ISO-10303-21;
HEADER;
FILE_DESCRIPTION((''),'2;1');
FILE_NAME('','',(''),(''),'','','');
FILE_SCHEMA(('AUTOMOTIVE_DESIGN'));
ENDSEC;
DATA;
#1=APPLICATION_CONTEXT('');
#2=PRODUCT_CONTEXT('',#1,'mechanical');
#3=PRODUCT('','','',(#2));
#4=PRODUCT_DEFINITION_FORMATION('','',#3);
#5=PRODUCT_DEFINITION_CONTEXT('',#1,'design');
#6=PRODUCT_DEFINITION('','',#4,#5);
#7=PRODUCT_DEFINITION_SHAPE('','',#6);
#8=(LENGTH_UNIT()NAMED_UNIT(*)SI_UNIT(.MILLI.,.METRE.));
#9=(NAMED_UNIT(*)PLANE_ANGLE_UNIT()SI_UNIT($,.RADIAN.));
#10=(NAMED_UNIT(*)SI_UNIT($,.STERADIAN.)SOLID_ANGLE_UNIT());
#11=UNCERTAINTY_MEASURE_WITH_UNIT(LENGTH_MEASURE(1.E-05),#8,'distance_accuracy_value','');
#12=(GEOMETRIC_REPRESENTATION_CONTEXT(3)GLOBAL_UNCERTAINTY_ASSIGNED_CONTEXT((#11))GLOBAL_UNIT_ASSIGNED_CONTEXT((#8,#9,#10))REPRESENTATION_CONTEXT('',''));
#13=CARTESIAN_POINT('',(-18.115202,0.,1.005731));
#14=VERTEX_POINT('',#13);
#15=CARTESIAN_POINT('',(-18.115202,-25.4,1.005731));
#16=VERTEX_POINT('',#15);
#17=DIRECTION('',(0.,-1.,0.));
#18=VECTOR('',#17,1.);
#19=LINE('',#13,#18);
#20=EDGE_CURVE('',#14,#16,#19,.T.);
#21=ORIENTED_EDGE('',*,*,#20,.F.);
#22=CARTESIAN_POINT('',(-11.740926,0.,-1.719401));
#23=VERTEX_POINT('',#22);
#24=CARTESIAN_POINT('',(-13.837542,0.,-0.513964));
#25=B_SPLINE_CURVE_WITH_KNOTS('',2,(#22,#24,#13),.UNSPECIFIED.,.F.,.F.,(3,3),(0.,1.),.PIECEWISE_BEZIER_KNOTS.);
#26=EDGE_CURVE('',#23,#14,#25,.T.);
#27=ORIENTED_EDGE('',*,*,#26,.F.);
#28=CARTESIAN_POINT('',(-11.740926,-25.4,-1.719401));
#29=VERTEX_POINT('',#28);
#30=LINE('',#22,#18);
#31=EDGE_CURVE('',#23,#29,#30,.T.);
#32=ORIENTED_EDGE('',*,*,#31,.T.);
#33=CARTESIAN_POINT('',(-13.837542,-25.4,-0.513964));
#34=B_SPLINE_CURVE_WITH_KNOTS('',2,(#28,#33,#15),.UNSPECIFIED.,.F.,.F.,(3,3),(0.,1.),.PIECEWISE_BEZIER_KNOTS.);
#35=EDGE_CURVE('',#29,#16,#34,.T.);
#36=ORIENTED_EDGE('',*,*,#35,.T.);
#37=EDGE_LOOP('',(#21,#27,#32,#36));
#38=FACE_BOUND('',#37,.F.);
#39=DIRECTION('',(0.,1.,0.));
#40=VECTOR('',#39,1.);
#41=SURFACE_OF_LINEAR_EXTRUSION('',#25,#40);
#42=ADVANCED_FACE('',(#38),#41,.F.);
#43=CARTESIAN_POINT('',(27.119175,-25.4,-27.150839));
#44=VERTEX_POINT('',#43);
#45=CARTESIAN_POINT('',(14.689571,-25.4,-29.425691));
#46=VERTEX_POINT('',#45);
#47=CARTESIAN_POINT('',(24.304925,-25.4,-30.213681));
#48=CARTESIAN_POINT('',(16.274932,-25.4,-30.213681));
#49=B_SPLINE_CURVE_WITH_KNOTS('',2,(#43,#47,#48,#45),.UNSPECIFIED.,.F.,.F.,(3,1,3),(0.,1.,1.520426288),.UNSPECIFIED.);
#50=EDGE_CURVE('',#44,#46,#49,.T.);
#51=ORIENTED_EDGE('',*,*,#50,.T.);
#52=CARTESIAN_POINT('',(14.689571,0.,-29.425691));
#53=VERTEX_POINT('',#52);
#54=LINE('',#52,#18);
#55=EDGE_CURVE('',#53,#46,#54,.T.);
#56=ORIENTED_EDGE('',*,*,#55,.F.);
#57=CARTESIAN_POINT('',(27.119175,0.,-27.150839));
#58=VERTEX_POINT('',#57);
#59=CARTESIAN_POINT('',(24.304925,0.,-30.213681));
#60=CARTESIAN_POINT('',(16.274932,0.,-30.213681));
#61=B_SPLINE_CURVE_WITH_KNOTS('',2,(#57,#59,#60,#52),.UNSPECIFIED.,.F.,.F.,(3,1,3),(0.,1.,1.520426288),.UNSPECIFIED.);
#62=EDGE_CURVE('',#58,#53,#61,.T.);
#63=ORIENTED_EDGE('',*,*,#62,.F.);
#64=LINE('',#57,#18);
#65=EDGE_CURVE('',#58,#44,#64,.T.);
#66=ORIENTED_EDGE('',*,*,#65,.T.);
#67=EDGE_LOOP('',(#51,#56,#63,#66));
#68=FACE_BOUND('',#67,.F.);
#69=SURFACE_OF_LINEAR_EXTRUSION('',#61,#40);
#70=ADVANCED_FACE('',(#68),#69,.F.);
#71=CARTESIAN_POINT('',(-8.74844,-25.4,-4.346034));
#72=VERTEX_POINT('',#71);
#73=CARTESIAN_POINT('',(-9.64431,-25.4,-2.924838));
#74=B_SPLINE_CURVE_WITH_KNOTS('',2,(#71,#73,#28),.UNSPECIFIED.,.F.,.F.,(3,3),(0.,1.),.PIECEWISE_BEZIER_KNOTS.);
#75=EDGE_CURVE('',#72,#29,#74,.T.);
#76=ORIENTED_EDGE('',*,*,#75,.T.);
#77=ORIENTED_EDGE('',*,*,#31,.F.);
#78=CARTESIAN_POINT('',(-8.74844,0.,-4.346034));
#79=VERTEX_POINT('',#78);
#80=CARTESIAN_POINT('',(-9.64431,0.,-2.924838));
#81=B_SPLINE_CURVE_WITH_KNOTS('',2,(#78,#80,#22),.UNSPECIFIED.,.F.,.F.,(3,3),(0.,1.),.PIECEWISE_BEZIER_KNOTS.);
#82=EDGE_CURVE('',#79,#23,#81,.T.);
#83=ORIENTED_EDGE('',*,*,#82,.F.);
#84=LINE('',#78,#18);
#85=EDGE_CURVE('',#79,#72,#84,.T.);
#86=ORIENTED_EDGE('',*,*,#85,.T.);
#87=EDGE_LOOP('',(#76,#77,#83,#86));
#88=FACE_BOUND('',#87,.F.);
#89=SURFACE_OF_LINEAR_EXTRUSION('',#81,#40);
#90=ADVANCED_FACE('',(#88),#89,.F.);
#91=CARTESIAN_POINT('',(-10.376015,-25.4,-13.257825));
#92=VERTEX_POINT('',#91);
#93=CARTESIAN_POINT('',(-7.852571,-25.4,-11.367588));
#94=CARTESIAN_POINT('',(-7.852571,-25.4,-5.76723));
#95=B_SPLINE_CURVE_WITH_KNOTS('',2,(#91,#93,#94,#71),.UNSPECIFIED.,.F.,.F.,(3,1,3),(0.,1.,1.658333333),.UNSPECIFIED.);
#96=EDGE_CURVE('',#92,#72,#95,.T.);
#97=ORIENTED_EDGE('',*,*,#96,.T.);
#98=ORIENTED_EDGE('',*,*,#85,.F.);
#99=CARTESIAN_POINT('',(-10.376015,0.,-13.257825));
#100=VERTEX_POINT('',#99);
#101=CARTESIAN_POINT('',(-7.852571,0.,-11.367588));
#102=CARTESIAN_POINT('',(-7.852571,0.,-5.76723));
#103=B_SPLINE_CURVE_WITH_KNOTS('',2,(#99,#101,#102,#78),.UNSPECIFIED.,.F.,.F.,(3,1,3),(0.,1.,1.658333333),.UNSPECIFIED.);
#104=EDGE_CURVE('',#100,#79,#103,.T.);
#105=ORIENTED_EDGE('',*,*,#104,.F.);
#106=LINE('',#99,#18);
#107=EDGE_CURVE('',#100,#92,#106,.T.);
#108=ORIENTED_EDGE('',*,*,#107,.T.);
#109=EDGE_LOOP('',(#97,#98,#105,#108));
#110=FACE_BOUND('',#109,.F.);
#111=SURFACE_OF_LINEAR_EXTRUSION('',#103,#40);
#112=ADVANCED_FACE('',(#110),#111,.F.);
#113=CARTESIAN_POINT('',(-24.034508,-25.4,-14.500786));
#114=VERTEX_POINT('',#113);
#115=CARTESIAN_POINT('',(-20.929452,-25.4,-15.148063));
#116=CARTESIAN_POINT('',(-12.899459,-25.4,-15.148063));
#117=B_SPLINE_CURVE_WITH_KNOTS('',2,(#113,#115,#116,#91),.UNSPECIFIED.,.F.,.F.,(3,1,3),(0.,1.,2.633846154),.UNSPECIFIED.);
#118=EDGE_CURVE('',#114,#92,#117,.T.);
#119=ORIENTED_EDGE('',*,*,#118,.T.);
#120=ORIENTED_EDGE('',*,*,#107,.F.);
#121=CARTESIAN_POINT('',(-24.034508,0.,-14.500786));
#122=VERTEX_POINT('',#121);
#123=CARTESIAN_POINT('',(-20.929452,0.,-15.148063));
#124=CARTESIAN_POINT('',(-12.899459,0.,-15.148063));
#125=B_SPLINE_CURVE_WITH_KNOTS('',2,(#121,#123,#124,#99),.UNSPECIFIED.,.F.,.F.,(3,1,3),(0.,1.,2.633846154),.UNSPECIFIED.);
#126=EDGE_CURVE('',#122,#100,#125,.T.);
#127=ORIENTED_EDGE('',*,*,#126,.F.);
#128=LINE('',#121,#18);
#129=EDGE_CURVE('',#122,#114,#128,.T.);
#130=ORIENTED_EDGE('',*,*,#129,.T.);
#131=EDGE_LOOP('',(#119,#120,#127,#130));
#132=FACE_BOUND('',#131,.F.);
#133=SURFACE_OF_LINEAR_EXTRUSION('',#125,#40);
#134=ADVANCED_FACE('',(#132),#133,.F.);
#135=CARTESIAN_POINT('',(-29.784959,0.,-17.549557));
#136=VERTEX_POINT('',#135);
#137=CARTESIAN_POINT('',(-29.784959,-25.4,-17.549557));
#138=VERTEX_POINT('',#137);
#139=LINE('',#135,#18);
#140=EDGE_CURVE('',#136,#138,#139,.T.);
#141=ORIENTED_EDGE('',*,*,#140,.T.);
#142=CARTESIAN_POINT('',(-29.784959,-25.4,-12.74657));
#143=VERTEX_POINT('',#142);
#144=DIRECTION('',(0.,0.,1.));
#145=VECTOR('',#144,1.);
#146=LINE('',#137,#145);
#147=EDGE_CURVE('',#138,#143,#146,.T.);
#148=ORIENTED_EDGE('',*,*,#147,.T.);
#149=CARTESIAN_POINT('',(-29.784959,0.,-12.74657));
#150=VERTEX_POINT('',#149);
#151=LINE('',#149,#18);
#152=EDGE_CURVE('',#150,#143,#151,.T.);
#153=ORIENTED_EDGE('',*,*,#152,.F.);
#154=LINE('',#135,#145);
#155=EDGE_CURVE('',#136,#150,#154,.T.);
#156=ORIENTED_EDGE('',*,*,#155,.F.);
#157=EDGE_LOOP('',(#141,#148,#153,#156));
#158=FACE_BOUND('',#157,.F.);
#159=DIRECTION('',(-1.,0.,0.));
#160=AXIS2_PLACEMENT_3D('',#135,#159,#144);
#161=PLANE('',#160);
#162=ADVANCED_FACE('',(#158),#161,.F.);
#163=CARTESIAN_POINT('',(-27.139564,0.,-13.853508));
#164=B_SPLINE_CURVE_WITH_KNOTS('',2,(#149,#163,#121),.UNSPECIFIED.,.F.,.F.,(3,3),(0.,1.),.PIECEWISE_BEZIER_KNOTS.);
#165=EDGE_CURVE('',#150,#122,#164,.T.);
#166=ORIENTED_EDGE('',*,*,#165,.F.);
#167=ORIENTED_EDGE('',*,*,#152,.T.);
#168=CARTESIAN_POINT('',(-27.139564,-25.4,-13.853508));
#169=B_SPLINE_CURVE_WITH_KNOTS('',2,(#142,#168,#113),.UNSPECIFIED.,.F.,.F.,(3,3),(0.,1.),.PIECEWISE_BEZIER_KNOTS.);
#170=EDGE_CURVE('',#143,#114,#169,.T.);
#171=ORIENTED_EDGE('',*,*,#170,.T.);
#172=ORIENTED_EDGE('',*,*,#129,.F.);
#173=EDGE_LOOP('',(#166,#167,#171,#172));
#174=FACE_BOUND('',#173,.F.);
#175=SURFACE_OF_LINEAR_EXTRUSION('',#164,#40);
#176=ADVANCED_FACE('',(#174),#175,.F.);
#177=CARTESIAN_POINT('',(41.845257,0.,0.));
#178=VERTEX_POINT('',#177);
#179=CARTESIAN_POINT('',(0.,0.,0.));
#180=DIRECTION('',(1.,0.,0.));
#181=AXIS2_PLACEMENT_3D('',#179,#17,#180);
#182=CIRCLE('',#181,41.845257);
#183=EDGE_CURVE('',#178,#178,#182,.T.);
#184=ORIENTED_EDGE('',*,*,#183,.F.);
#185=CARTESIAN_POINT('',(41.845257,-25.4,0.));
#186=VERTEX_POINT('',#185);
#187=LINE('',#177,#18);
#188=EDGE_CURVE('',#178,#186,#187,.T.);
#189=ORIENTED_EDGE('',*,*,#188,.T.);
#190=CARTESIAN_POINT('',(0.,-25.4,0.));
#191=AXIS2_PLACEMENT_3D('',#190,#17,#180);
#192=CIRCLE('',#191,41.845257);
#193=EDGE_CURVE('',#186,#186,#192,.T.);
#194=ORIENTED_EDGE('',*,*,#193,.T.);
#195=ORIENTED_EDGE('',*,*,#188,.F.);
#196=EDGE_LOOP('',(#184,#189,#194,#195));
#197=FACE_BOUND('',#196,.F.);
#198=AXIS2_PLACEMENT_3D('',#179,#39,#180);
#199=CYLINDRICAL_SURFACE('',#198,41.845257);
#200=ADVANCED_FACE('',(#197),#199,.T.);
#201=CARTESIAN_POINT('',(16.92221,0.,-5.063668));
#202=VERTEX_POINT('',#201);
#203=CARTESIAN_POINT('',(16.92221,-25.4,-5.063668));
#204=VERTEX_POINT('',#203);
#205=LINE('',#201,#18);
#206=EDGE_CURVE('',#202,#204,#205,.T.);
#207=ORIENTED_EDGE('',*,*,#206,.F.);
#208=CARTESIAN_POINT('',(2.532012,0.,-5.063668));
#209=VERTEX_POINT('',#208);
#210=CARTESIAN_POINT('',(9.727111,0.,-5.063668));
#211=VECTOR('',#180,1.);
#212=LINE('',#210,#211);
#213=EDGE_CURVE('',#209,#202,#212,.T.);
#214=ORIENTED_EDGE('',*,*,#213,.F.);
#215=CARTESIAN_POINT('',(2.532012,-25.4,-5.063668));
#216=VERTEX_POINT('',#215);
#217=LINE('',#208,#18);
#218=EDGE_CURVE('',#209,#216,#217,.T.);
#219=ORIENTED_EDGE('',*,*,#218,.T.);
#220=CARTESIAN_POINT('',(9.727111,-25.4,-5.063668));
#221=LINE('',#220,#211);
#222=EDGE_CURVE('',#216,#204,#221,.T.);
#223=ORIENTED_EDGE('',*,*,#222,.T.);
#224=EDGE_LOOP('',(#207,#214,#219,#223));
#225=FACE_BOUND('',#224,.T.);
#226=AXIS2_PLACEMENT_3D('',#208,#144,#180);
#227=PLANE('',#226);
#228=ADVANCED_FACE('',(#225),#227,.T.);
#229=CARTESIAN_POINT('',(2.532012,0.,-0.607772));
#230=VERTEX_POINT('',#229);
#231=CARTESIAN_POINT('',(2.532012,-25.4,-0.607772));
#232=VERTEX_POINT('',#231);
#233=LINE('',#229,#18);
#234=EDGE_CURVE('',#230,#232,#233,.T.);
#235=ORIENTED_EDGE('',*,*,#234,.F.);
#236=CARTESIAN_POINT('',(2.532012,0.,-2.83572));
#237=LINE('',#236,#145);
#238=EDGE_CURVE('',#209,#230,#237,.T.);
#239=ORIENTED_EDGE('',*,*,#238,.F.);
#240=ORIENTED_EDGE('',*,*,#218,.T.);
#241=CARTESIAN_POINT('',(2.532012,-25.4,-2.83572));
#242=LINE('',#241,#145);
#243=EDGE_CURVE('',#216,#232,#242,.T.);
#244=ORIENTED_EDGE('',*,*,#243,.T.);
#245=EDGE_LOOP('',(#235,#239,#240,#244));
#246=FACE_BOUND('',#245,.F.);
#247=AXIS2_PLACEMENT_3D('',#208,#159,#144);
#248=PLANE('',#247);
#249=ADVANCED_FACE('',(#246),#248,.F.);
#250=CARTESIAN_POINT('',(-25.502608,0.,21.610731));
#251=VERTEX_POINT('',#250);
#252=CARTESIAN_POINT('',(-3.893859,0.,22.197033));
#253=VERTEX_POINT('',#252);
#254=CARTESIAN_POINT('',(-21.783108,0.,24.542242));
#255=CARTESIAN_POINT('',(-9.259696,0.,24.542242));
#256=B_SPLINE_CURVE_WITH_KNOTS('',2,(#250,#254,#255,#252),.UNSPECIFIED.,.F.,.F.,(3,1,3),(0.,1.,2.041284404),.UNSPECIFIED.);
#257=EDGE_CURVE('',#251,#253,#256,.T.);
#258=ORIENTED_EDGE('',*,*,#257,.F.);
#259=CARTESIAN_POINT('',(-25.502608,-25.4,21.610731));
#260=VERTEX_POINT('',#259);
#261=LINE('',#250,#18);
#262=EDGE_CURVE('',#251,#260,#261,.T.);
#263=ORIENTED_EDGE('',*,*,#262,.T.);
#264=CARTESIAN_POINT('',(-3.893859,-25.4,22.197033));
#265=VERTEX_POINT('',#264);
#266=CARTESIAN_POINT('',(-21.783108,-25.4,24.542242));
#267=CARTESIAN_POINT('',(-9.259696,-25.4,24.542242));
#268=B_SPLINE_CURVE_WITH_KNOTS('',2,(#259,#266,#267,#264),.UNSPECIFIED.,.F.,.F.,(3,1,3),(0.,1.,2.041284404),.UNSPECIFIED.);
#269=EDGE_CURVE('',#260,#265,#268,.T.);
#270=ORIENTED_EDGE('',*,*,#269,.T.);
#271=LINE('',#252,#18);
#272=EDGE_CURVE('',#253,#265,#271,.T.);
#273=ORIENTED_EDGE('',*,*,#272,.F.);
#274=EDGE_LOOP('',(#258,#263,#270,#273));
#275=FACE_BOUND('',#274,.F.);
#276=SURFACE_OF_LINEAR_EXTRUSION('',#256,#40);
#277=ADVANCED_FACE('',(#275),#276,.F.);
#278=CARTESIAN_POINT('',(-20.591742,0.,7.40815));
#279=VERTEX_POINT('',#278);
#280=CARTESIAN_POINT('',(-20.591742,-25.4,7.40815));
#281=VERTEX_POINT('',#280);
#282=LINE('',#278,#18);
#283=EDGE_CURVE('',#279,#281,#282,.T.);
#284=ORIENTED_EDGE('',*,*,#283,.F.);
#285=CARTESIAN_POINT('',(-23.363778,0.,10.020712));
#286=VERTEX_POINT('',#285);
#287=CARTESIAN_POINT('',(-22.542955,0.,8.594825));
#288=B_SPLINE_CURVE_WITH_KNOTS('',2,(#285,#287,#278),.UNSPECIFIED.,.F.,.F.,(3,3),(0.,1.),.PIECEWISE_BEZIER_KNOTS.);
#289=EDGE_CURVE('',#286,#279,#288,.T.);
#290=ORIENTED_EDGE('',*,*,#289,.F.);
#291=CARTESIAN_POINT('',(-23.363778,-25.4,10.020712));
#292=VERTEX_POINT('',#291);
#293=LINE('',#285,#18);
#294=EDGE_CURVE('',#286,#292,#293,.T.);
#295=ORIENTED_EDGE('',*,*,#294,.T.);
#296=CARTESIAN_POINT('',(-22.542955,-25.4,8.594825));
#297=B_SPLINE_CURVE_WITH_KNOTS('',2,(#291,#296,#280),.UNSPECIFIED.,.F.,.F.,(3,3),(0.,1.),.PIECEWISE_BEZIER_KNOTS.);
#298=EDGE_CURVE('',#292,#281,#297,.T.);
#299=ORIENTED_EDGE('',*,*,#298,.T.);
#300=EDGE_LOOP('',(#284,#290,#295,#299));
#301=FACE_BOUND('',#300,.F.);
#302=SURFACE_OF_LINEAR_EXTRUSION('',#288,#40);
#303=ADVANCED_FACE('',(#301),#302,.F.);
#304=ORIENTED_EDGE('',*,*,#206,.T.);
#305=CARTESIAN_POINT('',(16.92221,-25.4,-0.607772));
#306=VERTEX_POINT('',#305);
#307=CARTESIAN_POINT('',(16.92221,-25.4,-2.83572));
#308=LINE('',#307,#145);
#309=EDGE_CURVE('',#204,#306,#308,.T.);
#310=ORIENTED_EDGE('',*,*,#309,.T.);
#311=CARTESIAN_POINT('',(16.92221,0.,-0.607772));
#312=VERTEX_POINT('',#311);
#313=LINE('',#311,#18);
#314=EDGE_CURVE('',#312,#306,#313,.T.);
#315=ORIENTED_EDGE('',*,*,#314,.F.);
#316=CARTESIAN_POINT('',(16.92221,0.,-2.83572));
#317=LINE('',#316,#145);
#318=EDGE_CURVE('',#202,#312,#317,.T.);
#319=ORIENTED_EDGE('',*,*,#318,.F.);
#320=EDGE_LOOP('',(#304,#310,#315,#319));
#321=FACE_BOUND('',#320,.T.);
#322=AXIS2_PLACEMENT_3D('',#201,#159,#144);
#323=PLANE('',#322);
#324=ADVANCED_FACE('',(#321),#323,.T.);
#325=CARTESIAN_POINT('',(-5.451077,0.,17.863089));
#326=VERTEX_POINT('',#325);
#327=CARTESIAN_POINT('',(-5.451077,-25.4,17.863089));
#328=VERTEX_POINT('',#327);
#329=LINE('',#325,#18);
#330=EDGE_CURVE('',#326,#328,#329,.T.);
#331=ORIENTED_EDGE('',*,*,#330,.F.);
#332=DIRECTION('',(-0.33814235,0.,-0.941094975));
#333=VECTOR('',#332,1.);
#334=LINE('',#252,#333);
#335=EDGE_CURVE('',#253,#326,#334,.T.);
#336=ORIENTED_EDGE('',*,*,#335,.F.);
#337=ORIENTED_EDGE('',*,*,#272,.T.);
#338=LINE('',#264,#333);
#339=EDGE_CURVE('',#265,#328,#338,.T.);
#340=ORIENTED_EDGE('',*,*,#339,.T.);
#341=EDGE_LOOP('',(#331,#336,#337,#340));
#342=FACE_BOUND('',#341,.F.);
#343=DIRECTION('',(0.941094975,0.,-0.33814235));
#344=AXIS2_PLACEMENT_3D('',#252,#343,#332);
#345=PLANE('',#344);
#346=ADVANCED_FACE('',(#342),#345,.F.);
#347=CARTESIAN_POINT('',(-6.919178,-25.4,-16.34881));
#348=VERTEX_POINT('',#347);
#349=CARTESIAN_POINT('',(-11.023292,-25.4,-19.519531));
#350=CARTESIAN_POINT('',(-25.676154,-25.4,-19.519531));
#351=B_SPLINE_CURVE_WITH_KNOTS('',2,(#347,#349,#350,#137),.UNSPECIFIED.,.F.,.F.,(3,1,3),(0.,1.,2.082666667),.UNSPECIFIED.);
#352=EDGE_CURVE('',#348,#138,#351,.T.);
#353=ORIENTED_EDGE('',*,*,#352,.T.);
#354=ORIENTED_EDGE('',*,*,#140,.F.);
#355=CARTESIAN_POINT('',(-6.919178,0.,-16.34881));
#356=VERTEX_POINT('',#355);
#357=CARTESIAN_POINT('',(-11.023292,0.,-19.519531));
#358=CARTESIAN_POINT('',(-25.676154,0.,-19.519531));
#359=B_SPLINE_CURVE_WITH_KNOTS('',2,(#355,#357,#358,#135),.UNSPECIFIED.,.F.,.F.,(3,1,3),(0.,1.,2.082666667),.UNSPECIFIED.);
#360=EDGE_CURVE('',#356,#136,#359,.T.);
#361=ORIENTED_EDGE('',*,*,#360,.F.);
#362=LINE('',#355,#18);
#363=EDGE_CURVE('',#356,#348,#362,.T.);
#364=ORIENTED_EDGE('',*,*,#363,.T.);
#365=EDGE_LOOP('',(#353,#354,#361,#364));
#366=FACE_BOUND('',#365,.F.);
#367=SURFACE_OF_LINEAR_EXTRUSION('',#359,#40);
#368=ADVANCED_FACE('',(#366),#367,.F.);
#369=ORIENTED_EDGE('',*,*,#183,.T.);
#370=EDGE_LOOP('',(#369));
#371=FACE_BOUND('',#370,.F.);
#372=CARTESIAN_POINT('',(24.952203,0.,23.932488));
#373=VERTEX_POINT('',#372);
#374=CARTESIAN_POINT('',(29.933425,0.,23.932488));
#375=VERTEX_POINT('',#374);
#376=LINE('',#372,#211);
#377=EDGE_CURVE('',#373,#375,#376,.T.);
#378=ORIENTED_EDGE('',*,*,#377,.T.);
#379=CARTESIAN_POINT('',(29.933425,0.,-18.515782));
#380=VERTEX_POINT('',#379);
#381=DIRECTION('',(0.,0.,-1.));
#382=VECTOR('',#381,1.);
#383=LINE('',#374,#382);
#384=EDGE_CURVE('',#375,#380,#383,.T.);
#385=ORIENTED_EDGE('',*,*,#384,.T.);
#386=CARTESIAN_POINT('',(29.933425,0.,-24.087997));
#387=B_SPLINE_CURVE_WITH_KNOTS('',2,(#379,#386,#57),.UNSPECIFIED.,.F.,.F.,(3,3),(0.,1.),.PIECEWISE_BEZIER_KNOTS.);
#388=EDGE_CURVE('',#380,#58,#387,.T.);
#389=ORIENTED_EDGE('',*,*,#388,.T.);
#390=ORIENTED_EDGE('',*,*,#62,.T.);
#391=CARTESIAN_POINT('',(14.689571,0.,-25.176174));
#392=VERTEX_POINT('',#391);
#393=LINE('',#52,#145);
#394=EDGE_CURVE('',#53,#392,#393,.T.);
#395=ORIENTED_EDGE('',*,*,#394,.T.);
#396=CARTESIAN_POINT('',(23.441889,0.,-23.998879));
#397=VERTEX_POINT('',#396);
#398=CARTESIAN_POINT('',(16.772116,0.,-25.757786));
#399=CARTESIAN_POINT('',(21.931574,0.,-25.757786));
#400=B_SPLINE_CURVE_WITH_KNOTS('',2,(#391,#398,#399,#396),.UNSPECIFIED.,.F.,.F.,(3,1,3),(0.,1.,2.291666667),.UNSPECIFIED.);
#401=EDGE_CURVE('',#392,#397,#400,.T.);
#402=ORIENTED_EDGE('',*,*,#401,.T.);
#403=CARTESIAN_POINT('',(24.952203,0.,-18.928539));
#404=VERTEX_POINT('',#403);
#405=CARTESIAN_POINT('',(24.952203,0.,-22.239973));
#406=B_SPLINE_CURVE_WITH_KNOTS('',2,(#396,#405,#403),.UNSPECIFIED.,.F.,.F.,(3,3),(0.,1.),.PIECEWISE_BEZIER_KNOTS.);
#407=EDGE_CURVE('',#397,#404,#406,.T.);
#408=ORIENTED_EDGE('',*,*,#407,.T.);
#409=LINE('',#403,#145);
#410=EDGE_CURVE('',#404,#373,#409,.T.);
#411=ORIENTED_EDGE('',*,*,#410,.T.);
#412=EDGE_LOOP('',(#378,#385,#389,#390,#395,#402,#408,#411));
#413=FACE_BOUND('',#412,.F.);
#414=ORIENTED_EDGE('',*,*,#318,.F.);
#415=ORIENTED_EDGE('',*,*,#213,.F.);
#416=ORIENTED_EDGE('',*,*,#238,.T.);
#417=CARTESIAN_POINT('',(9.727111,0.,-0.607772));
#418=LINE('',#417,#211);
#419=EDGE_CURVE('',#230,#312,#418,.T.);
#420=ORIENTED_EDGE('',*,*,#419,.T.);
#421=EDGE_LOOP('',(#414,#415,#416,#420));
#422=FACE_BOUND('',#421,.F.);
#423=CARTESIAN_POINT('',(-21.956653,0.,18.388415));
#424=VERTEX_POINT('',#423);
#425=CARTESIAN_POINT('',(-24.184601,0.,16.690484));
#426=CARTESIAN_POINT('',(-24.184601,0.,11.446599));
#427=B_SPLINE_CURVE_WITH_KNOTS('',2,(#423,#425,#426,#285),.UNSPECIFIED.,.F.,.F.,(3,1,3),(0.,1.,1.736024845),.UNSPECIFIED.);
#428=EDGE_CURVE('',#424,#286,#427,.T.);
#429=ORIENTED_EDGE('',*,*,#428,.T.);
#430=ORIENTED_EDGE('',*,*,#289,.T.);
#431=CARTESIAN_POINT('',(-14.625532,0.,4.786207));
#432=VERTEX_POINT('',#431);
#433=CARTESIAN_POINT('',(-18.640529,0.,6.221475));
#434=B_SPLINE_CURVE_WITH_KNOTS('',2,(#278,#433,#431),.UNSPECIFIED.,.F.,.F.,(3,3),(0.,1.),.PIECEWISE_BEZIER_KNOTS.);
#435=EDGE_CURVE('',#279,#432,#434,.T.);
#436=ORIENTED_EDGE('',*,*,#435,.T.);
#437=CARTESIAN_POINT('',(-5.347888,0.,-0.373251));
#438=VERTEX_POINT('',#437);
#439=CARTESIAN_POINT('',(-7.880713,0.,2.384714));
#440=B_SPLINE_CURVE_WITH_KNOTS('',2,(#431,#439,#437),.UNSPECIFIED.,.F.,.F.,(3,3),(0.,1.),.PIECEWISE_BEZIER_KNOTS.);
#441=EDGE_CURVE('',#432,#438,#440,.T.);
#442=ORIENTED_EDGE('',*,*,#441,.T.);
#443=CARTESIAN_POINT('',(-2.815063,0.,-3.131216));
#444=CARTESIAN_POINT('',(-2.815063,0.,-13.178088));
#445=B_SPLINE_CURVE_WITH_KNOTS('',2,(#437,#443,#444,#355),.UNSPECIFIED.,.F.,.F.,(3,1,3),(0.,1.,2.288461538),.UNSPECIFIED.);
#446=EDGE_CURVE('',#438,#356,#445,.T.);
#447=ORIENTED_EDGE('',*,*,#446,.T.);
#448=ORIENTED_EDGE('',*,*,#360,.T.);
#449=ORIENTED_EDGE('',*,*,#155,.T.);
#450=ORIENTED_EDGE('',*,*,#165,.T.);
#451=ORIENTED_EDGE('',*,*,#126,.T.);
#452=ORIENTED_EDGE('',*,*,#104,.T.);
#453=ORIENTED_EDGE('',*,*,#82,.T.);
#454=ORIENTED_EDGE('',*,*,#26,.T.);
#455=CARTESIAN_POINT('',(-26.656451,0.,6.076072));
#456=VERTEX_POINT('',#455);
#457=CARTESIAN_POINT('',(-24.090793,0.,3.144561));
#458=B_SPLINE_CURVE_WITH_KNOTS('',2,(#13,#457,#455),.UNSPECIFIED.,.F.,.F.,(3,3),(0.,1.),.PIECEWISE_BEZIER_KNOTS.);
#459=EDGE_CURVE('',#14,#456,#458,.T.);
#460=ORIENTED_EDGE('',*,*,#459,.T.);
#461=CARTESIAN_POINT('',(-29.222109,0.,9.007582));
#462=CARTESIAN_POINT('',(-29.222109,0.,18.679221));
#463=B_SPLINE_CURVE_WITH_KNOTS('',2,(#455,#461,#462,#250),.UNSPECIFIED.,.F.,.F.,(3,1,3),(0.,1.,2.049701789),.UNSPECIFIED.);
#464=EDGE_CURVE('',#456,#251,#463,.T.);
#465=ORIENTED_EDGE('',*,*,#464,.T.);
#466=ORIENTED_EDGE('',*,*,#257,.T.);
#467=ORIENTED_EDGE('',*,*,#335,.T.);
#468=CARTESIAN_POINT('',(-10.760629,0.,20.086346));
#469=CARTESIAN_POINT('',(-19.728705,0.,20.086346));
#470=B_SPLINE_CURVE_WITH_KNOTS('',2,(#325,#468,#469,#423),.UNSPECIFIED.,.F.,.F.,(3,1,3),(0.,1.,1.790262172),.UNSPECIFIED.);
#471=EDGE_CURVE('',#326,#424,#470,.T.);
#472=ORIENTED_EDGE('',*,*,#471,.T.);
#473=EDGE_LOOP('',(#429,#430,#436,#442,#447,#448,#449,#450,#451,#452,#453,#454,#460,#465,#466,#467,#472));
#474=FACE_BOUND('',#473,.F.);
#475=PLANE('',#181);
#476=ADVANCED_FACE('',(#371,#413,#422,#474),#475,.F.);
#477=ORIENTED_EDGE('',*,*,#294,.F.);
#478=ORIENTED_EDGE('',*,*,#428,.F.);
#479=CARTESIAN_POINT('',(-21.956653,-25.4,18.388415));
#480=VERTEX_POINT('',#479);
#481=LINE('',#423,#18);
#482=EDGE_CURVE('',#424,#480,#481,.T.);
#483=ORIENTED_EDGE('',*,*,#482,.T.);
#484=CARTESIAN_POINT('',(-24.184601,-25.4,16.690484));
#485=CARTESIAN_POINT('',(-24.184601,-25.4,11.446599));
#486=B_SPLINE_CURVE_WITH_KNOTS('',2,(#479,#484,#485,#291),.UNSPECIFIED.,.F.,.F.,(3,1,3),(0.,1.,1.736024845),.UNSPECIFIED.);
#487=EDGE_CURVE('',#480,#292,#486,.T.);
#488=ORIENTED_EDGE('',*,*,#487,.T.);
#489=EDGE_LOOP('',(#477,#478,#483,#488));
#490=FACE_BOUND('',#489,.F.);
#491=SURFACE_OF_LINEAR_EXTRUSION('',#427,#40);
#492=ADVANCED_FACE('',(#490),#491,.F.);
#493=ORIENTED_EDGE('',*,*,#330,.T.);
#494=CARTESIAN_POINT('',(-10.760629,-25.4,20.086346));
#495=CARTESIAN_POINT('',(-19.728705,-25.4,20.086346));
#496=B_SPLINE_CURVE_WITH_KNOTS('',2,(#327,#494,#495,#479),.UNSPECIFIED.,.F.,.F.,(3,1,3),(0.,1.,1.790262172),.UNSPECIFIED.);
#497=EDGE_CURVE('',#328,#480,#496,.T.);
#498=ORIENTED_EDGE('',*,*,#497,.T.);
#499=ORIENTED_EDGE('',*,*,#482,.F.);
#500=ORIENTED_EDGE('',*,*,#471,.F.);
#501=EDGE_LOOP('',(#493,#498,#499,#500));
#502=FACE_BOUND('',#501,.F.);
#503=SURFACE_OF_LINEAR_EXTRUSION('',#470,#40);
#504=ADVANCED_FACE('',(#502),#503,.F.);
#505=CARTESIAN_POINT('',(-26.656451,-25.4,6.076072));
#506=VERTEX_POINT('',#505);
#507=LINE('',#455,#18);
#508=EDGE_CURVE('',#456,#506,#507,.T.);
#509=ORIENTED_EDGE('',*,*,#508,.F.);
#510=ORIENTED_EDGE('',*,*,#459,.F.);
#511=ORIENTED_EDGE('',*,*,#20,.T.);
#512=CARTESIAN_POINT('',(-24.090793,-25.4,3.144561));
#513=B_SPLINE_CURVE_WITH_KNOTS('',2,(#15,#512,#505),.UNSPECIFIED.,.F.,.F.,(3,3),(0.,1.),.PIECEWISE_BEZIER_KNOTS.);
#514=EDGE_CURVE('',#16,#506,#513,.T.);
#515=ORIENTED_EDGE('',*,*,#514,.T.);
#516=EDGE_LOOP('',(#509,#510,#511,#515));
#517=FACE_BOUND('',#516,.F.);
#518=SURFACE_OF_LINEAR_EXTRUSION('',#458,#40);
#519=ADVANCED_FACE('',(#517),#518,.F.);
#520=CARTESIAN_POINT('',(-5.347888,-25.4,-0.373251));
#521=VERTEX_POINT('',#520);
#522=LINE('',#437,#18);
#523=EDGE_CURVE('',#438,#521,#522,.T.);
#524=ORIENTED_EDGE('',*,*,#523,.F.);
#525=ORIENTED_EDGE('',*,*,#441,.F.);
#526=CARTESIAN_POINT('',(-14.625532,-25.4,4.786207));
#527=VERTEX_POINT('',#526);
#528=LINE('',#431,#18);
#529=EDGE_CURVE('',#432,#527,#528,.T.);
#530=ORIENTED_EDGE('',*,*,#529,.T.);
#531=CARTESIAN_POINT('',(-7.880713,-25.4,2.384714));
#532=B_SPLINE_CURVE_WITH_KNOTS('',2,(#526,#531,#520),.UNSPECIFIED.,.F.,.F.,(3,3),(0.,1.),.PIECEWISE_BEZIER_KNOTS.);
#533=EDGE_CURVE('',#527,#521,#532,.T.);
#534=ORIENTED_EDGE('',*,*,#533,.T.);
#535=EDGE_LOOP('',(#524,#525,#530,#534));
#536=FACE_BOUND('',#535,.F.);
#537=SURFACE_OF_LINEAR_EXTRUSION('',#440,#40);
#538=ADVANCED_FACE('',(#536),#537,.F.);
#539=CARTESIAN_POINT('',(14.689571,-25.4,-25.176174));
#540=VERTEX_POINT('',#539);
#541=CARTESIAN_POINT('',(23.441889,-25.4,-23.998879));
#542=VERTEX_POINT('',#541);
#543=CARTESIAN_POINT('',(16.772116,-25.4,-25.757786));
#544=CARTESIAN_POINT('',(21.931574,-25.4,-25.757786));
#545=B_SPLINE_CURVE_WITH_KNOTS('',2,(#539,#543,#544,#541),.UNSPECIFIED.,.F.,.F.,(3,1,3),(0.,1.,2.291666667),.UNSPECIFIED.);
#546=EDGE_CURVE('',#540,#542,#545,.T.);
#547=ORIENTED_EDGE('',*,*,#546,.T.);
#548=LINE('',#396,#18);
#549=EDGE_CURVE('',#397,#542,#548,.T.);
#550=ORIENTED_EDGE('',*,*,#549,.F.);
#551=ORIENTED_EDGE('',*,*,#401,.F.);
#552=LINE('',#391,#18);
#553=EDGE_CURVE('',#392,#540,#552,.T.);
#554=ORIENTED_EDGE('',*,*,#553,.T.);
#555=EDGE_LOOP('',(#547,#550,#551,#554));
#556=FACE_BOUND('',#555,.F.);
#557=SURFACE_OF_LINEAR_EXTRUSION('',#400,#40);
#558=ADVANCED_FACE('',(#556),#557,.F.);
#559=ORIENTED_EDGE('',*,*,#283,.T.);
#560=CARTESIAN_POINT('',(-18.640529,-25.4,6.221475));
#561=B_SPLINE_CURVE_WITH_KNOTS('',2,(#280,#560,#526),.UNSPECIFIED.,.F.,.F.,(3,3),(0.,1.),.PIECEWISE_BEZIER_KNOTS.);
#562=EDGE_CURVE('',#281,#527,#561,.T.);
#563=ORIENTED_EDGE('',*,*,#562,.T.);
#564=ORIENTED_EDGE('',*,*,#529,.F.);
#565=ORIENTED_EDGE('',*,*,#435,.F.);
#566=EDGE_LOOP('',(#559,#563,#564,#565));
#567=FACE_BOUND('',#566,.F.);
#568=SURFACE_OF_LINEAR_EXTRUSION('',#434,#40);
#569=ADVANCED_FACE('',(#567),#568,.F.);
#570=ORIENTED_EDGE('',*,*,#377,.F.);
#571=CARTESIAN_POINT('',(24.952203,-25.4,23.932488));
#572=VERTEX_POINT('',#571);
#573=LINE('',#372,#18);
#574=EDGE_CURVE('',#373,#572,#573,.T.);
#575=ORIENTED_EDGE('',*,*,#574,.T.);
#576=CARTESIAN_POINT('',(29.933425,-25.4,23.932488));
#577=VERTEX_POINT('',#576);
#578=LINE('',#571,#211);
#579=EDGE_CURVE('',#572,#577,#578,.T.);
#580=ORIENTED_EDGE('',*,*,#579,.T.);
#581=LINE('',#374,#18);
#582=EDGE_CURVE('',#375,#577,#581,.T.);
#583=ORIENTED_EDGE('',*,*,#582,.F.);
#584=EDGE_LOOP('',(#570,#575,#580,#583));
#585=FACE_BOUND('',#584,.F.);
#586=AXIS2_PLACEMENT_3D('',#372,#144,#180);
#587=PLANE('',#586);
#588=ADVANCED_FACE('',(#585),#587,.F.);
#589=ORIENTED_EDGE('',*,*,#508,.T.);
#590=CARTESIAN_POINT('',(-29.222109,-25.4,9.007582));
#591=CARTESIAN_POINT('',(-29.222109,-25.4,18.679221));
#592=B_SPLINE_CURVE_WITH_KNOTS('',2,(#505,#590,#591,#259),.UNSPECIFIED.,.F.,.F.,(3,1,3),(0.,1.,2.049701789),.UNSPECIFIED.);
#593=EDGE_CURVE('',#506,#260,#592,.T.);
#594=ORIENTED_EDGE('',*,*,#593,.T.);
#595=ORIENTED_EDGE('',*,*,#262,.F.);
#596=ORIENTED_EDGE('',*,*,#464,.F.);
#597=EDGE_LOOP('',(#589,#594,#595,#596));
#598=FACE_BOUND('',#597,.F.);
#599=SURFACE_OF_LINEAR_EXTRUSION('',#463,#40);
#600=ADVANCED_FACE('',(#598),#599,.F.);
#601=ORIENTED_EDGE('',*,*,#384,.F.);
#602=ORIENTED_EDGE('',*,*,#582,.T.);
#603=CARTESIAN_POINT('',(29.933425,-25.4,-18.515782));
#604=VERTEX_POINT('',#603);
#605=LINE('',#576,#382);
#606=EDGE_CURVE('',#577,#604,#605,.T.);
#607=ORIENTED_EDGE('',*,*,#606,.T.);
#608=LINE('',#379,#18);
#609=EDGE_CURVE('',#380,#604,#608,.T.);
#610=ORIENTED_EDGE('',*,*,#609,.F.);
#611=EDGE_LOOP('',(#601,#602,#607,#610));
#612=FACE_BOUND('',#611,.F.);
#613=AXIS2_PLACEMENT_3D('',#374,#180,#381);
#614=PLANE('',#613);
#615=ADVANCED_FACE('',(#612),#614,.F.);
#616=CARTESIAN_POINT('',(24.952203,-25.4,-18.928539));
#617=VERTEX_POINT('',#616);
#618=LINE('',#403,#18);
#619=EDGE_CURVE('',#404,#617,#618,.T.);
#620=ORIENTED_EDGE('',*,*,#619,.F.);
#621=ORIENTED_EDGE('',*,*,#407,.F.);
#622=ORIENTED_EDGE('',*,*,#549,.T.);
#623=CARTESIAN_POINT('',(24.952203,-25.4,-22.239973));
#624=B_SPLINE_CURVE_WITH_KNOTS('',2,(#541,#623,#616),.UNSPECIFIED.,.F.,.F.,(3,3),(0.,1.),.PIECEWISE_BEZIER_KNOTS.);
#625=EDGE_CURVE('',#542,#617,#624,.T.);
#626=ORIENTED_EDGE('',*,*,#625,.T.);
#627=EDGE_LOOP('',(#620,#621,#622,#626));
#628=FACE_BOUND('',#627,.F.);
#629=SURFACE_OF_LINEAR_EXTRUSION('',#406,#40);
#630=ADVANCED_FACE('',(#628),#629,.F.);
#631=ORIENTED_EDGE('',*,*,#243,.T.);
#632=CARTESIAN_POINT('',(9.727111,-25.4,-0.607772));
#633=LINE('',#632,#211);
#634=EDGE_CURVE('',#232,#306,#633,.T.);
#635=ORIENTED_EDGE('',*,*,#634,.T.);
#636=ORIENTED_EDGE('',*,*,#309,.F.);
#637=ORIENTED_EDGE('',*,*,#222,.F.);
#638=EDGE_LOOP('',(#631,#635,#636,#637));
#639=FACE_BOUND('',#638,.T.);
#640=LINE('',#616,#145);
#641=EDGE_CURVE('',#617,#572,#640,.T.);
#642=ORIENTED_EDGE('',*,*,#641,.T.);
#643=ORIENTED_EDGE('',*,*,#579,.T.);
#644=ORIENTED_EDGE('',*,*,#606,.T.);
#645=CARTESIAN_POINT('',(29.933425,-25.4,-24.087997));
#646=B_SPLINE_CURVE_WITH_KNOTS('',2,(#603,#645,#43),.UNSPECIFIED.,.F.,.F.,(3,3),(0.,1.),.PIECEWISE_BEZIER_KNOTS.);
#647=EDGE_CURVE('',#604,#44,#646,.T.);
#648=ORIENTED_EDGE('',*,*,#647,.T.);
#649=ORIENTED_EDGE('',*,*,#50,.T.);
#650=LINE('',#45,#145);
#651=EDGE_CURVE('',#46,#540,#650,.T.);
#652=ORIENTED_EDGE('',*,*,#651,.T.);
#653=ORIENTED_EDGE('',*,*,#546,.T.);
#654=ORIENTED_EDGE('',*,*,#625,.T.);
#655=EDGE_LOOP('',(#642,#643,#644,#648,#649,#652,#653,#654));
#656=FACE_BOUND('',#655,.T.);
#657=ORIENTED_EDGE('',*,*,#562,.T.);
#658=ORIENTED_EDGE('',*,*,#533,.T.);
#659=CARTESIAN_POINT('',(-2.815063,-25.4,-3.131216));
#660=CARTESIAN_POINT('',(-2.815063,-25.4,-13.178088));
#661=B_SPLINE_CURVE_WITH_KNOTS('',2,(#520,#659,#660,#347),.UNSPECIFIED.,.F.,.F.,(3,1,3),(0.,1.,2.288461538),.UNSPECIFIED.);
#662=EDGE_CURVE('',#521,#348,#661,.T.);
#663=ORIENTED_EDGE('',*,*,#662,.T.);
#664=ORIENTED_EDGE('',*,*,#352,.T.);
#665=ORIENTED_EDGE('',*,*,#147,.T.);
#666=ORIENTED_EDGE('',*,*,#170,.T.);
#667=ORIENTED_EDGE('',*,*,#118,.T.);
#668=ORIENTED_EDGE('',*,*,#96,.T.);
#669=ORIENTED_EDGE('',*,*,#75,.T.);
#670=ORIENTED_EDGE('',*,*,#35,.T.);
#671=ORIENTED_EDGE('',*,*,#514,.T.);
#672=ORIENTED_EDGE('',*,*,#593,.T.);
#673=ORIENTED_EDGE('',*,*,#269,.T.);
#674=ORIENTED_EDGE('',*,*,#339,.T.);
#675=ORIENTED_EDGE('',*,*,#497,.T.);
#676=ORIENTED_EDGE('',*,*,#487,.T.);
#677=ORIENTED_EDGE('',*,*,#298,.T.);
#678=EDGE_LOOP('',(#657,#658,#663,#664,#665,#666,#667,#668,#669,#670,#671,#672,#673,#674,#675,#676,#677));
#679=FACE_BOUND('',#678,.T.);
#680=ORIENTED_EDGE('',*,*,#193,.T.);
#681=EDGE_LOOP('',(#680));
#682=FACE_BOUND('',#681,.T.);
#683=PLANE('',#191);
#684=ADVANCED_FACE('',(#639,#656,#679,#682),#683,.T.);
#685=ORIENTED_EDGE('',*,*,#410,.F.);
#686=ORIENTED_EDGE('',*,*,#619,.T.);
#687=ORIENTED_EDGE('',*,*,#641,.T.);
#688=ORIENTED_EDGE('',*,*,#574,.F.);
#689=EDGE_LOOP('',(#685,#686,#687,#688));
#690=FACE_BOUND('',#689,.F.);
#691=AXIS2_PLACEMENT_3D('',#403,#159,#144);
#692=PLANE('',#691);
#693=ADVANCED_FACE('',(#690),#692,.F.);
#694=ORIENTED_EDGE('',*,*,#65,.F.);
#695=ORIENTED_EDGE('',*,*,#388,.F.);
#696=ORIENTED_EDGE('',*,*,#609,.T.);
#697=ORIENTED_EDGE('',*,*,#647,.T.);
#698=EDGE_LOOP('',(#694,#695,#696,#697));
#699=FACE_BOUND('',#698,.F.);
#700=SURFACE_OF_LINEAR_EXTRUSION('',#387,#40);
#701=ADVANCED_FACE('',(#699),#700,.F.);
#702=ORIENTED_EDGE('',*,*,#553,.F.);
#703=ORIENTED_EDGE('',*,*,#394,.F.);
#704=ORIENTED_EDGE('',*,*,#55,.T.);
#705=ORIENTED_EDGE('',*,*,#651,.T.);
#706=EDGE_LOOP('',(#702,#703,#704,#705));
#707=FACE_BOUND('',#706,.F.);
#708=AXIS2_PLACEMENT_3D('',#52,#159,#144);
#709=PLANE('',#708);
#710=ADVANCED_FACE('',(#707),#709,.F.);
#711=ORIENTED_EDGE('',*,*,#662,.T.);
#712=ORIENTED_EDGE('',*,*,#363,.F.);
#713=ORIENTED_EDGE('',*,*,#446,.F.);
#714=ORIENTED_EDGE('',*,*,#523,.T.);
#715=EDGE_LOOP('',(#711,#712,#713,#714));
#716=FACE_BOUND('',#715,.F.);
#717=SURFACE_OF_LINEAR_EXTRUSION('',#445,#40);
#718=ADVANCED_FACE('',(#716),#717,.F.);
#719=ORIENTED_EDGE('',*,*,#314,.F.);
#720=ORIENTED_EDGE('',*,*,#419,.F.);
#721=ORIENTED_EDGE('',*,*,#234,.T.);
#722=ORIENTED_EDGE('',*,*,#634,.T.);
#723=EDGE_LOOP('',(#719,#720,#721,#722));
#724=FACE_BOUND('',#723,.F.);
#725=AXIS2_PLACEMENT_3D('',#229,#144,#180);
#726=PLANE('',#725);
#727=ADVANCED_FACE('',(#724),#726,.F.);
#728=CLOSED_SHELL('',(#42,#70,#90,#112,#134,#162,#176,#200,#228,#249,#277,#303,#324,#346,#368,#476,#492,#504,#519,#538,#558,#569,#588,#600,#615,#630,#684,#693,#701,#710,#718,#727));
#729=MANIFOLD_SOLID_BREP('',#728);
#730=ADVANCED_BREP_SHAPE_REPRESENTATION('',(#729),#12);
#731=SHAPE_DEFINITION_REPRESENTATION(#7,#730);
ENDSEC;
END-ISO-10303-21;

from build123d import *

# Parameters (mm, degrees)
F0_R     = 41.8452571416
F0_W     = 14.3901980304
F0_H     = 4.4558957395
F1_DEPTH = 25.4


with BuildPart() as f1:
    # F0 (on Front) → F1 (new body)
    with BuildSketch(Plane.XZ):
        Circle(F0_R)
        with Locations((9.7271105858, -2.8357197633)):
            Rectangle(F0_W, F0_H, mode=Mode.SUBTRACT)
        with BuildLine():
            add(Edge.make_bspline(
                [(27.1191752197, -27.1508392515), (24.304925279, -30.2136812703), (19.0235162235, -30.2136812703)],
                knots=[0, 0, 0, 1, 1, 1], degree=2))
            add(Edge.make_bspline(
                [(19.0235162235, -30.2136812703), (16.2749321147, -30.2136812703), (14.6895713147, -29.4256912869)],
                knots=[0, 0, 0, 1, 1, 1], degree=2))
            Line((14.6895713147, -29.4256912869), (14.6895713147, -25.1761738764))
            add(Edge.make_bspline(
                [(14.6895713147, -25.1761738764), (16.7721162709, -25.7577855308), (19.0235162235, -25.7577855308)],
                knots=[0, 0, 0, 1, 1, 1], degree=2))
            add(Edge.make_bspline(
                [(19.0235162235, -25.7577855308), (21.9315744956, -25.7577855308), (23.4418886305, -23.9988793178)],
                knots=[0, 0, 0, 1, 1, 1], degree=2))
            add(Edge.make_bspline(
                [(23.4418886305, -23.9988793178), (24.9522027653, -22.2399731049), (24.9522027653, -18.9285390079)],
                knots=[0, 0, 0, 1, 1, 1], degree=2))
            Line((24.9522027653, -18.9285390079), (24.9522027653, 23.9324875899))
            Line((24.9522027653, 23.9324875899), (29.9334251605, 23.9324875899))
            Line((29.9334251605, 23.9324875899), (29.9334251605, -18.5157823499))
            add(Edge.make_bspline(
                [(29.9334251605, -18.5157823499), (29.9334251605, -24.0879972326), (27.1191752197, -27.1508392515)],
                knots=[0, 0, 0, 1, 1, 1], degree=2))
        make_face(mode=Mode.SUBTRACT)
        with BuildLine():
            add(Edge.make_bspline(
                [(-5.3478882635, -0.3732510652), (-2.8150633168, -3.1312160071), (-2.8150633168, -7.5214459147)],
                knots=[0, 0, 0, 1, 1, 1], degree=2))
            add(Edge.make_bspline(
                [(-2.8150633168, -7.5214459147), (-2.8150633168, -13.1780882956), (-6.9191778138, -16.3488098955)],
                knots=[0, 0, 0, 1, 1, 1], degree=2))
            add(Edge.make_bspline(
                [(-6.9191778138, -16.3488098955), (-11.0232923107, -19.5195314955), (-18.0589171626, -19.5195314955)],
                knots=[0, 0, 0, 1, 1, 1], degree=2))
            add(Edge.make_bspline(
                [(-18.0589171626, -19.5195314955), (-25.6761536689, -19.5195314955), (-29.7849585824, -17.5495565369)],
                knots=[0, 0, 0, 1, 1, 1], degree=2))
            Line((-29.7849585824, -17.5495565369), (-29.7849585824, -12.7465699714))
            add(Edge.make_bspline(
                [(-29.7849585824, -12.7465699714), (-27.1395636381, -13.8535082814), (-24.0345078702, -14.5007857678)],
                knots=[0, 0, 0, 1, 1, 1], degree=2))
            add(Edge.make_bspline(
                [(-24.0345078702, -14.5007857678), (-20.9294521022, -15.1480632541), (-17.880681333, -15.1480632541)],
                knots=[0, 0, 0, 1, 1, 1], degree=2))
            add(Edge.make_bspline(
                [(-17.880681333, -15.1480632541), (-12.8994589379, -15.1480632541), (-10.3760148243, -13.2578253773)],
                knots=[0, 0, 0, 1, 1, 1], degree=2))
            add(Edge.make_bspline(
                [(-10.3760148243, -13.2578253773), (-7.8525707108, -11.3675875004), (-7.8525707108, -7.9904875715)],
                knots=[0, 0, 0, 1, 1, 1], degree=2))
            add(Edge.make_bspline(
                [(-7.8525707108, -7.9904875715), (-7.8525707108, -5.7672301183), (-8.7484402753, -4.3460338982)],
                knots=[0, 0, 0, 1, 1, 1], degree=2))
            add(Edge.make_bspline(
                [(-8.7484402753, -4.3460338982), (-9.6443098397, -2.9248376781), (-11.7409260456, -1.7194006202)],
                knots=[0, 0, 0, 1, 1, 1], degree=2))
            add(Edge.make_bspline(
                [(-11.7409260456, -1.7194006202), (-13.8375422515, -0.5139635622), (-18.1152021614, 1.0057314058)],
                knots=[0, 0, 0, 1, 1, 1], degree=2))
            add(Edge.make_bspline(
                [(-18.1152021614, 1.0057314058), (-24.090792869, 3.1445613608), (-26.6564507316, 6.0760717157)],
                knots=[0, 0, 0, 1, 1, 1], degree=2))
            add(Edge.make_bspline(
                [(-26.6564507316, 6.0760717157), (-29.2221085943, 9.0075820707), (-29.2221085943, 13.726141138)],
                knots=[0, 0, 0, 1, 1, 1], degree=2))
            add(Edge.make_bspline(
                [(-29.2221085943, 13.726141138), (-29.2221085943, 18.6792210338), (-25.5026082559, 21.6107313887)],
                knots=[0, 0, 0, 1, 1, 1], degree=2))
            add(Edge.make_bspline(
                [(-25.5026082559, 21.6107313887), (-21.7831079175, 24.5422417437), (-15.6480430467, 24.5422417437)],
                knots=[0, 0, 0, 1, 1, 1], degree=2))
            add(Edge.make_bspline(
                [(-15.6480430467, 24.5422417437), (-9.2596956812, 24.5422417437), (-3.8938591275, 22.1970334597)],
                knots=[0, 0, 0, 1, 1, 1], degree=2))
            Line((-3.8938591275, 22.1970334597), (-5.451077428, 17.863088551))
            add(Edge.make_bspline(
                [(-5.451077428, 17.863088551), (-10.7606289829, 20.0863460042), (-15.7699938775, 20.0863460042)],
                knots=[0, 0, 0, 1, 1, 1], degree=2))
            add(Edge.make_bspline(
                [(-15.7699938775, 20.0863460042), (-19.7287054608, 20.0863460042), (-21.9566533306, 18.3884152066)],
                knots=[0, 0, 0, 1, 1, 1], degree=2))
            add(Edge.make_bspline(
                [(-21.9566533306, 18.3884152066), (-24.1846012003, 16.690484409), (-24.1846012003, 13.6698561392)],
                knots=[0, 0, 0, 1, 1, 1], degree=2))
            add(Edge.make_bspline(
                [(-24.1846012003, 13.6698561392), (-24.1846012003, 11.446598686), (-23.3637783009, 10.0207120494)],
                knots=[0, 0, 0, 1, 1, 1], degree=2))
            add(Edge.make_bspline(
                [(-23.3637783009, 10.0207120494), (-22.5429554016, 8.5948254127), (-20.5917421093, 7.408150021)],
                knots=[0, 0, 0, 1, 1, 1], degree=2))
            add(Edge.make_bspline(
                [(-20.5917421093, 7.408150021), (-18.640528817, 6.2214746294), (-14.6255322349, 4.7862071596)],
                knots=[0, 0, 0, 1, 1, 1], degree=2))
            add(Edge.make_bspline(
                [(-14.6255322349, 4.7862071596), (-7.8807132102, 2.3847138768), (-5.3478882635, -0.3732510652)],
                knots=[0, 0, 0, 1, 1, 1], degree=2))
        make_face(mode=Mode.SUBTRACT)
    extrude(amount=F1_DEPTH)


solid = f1.part
